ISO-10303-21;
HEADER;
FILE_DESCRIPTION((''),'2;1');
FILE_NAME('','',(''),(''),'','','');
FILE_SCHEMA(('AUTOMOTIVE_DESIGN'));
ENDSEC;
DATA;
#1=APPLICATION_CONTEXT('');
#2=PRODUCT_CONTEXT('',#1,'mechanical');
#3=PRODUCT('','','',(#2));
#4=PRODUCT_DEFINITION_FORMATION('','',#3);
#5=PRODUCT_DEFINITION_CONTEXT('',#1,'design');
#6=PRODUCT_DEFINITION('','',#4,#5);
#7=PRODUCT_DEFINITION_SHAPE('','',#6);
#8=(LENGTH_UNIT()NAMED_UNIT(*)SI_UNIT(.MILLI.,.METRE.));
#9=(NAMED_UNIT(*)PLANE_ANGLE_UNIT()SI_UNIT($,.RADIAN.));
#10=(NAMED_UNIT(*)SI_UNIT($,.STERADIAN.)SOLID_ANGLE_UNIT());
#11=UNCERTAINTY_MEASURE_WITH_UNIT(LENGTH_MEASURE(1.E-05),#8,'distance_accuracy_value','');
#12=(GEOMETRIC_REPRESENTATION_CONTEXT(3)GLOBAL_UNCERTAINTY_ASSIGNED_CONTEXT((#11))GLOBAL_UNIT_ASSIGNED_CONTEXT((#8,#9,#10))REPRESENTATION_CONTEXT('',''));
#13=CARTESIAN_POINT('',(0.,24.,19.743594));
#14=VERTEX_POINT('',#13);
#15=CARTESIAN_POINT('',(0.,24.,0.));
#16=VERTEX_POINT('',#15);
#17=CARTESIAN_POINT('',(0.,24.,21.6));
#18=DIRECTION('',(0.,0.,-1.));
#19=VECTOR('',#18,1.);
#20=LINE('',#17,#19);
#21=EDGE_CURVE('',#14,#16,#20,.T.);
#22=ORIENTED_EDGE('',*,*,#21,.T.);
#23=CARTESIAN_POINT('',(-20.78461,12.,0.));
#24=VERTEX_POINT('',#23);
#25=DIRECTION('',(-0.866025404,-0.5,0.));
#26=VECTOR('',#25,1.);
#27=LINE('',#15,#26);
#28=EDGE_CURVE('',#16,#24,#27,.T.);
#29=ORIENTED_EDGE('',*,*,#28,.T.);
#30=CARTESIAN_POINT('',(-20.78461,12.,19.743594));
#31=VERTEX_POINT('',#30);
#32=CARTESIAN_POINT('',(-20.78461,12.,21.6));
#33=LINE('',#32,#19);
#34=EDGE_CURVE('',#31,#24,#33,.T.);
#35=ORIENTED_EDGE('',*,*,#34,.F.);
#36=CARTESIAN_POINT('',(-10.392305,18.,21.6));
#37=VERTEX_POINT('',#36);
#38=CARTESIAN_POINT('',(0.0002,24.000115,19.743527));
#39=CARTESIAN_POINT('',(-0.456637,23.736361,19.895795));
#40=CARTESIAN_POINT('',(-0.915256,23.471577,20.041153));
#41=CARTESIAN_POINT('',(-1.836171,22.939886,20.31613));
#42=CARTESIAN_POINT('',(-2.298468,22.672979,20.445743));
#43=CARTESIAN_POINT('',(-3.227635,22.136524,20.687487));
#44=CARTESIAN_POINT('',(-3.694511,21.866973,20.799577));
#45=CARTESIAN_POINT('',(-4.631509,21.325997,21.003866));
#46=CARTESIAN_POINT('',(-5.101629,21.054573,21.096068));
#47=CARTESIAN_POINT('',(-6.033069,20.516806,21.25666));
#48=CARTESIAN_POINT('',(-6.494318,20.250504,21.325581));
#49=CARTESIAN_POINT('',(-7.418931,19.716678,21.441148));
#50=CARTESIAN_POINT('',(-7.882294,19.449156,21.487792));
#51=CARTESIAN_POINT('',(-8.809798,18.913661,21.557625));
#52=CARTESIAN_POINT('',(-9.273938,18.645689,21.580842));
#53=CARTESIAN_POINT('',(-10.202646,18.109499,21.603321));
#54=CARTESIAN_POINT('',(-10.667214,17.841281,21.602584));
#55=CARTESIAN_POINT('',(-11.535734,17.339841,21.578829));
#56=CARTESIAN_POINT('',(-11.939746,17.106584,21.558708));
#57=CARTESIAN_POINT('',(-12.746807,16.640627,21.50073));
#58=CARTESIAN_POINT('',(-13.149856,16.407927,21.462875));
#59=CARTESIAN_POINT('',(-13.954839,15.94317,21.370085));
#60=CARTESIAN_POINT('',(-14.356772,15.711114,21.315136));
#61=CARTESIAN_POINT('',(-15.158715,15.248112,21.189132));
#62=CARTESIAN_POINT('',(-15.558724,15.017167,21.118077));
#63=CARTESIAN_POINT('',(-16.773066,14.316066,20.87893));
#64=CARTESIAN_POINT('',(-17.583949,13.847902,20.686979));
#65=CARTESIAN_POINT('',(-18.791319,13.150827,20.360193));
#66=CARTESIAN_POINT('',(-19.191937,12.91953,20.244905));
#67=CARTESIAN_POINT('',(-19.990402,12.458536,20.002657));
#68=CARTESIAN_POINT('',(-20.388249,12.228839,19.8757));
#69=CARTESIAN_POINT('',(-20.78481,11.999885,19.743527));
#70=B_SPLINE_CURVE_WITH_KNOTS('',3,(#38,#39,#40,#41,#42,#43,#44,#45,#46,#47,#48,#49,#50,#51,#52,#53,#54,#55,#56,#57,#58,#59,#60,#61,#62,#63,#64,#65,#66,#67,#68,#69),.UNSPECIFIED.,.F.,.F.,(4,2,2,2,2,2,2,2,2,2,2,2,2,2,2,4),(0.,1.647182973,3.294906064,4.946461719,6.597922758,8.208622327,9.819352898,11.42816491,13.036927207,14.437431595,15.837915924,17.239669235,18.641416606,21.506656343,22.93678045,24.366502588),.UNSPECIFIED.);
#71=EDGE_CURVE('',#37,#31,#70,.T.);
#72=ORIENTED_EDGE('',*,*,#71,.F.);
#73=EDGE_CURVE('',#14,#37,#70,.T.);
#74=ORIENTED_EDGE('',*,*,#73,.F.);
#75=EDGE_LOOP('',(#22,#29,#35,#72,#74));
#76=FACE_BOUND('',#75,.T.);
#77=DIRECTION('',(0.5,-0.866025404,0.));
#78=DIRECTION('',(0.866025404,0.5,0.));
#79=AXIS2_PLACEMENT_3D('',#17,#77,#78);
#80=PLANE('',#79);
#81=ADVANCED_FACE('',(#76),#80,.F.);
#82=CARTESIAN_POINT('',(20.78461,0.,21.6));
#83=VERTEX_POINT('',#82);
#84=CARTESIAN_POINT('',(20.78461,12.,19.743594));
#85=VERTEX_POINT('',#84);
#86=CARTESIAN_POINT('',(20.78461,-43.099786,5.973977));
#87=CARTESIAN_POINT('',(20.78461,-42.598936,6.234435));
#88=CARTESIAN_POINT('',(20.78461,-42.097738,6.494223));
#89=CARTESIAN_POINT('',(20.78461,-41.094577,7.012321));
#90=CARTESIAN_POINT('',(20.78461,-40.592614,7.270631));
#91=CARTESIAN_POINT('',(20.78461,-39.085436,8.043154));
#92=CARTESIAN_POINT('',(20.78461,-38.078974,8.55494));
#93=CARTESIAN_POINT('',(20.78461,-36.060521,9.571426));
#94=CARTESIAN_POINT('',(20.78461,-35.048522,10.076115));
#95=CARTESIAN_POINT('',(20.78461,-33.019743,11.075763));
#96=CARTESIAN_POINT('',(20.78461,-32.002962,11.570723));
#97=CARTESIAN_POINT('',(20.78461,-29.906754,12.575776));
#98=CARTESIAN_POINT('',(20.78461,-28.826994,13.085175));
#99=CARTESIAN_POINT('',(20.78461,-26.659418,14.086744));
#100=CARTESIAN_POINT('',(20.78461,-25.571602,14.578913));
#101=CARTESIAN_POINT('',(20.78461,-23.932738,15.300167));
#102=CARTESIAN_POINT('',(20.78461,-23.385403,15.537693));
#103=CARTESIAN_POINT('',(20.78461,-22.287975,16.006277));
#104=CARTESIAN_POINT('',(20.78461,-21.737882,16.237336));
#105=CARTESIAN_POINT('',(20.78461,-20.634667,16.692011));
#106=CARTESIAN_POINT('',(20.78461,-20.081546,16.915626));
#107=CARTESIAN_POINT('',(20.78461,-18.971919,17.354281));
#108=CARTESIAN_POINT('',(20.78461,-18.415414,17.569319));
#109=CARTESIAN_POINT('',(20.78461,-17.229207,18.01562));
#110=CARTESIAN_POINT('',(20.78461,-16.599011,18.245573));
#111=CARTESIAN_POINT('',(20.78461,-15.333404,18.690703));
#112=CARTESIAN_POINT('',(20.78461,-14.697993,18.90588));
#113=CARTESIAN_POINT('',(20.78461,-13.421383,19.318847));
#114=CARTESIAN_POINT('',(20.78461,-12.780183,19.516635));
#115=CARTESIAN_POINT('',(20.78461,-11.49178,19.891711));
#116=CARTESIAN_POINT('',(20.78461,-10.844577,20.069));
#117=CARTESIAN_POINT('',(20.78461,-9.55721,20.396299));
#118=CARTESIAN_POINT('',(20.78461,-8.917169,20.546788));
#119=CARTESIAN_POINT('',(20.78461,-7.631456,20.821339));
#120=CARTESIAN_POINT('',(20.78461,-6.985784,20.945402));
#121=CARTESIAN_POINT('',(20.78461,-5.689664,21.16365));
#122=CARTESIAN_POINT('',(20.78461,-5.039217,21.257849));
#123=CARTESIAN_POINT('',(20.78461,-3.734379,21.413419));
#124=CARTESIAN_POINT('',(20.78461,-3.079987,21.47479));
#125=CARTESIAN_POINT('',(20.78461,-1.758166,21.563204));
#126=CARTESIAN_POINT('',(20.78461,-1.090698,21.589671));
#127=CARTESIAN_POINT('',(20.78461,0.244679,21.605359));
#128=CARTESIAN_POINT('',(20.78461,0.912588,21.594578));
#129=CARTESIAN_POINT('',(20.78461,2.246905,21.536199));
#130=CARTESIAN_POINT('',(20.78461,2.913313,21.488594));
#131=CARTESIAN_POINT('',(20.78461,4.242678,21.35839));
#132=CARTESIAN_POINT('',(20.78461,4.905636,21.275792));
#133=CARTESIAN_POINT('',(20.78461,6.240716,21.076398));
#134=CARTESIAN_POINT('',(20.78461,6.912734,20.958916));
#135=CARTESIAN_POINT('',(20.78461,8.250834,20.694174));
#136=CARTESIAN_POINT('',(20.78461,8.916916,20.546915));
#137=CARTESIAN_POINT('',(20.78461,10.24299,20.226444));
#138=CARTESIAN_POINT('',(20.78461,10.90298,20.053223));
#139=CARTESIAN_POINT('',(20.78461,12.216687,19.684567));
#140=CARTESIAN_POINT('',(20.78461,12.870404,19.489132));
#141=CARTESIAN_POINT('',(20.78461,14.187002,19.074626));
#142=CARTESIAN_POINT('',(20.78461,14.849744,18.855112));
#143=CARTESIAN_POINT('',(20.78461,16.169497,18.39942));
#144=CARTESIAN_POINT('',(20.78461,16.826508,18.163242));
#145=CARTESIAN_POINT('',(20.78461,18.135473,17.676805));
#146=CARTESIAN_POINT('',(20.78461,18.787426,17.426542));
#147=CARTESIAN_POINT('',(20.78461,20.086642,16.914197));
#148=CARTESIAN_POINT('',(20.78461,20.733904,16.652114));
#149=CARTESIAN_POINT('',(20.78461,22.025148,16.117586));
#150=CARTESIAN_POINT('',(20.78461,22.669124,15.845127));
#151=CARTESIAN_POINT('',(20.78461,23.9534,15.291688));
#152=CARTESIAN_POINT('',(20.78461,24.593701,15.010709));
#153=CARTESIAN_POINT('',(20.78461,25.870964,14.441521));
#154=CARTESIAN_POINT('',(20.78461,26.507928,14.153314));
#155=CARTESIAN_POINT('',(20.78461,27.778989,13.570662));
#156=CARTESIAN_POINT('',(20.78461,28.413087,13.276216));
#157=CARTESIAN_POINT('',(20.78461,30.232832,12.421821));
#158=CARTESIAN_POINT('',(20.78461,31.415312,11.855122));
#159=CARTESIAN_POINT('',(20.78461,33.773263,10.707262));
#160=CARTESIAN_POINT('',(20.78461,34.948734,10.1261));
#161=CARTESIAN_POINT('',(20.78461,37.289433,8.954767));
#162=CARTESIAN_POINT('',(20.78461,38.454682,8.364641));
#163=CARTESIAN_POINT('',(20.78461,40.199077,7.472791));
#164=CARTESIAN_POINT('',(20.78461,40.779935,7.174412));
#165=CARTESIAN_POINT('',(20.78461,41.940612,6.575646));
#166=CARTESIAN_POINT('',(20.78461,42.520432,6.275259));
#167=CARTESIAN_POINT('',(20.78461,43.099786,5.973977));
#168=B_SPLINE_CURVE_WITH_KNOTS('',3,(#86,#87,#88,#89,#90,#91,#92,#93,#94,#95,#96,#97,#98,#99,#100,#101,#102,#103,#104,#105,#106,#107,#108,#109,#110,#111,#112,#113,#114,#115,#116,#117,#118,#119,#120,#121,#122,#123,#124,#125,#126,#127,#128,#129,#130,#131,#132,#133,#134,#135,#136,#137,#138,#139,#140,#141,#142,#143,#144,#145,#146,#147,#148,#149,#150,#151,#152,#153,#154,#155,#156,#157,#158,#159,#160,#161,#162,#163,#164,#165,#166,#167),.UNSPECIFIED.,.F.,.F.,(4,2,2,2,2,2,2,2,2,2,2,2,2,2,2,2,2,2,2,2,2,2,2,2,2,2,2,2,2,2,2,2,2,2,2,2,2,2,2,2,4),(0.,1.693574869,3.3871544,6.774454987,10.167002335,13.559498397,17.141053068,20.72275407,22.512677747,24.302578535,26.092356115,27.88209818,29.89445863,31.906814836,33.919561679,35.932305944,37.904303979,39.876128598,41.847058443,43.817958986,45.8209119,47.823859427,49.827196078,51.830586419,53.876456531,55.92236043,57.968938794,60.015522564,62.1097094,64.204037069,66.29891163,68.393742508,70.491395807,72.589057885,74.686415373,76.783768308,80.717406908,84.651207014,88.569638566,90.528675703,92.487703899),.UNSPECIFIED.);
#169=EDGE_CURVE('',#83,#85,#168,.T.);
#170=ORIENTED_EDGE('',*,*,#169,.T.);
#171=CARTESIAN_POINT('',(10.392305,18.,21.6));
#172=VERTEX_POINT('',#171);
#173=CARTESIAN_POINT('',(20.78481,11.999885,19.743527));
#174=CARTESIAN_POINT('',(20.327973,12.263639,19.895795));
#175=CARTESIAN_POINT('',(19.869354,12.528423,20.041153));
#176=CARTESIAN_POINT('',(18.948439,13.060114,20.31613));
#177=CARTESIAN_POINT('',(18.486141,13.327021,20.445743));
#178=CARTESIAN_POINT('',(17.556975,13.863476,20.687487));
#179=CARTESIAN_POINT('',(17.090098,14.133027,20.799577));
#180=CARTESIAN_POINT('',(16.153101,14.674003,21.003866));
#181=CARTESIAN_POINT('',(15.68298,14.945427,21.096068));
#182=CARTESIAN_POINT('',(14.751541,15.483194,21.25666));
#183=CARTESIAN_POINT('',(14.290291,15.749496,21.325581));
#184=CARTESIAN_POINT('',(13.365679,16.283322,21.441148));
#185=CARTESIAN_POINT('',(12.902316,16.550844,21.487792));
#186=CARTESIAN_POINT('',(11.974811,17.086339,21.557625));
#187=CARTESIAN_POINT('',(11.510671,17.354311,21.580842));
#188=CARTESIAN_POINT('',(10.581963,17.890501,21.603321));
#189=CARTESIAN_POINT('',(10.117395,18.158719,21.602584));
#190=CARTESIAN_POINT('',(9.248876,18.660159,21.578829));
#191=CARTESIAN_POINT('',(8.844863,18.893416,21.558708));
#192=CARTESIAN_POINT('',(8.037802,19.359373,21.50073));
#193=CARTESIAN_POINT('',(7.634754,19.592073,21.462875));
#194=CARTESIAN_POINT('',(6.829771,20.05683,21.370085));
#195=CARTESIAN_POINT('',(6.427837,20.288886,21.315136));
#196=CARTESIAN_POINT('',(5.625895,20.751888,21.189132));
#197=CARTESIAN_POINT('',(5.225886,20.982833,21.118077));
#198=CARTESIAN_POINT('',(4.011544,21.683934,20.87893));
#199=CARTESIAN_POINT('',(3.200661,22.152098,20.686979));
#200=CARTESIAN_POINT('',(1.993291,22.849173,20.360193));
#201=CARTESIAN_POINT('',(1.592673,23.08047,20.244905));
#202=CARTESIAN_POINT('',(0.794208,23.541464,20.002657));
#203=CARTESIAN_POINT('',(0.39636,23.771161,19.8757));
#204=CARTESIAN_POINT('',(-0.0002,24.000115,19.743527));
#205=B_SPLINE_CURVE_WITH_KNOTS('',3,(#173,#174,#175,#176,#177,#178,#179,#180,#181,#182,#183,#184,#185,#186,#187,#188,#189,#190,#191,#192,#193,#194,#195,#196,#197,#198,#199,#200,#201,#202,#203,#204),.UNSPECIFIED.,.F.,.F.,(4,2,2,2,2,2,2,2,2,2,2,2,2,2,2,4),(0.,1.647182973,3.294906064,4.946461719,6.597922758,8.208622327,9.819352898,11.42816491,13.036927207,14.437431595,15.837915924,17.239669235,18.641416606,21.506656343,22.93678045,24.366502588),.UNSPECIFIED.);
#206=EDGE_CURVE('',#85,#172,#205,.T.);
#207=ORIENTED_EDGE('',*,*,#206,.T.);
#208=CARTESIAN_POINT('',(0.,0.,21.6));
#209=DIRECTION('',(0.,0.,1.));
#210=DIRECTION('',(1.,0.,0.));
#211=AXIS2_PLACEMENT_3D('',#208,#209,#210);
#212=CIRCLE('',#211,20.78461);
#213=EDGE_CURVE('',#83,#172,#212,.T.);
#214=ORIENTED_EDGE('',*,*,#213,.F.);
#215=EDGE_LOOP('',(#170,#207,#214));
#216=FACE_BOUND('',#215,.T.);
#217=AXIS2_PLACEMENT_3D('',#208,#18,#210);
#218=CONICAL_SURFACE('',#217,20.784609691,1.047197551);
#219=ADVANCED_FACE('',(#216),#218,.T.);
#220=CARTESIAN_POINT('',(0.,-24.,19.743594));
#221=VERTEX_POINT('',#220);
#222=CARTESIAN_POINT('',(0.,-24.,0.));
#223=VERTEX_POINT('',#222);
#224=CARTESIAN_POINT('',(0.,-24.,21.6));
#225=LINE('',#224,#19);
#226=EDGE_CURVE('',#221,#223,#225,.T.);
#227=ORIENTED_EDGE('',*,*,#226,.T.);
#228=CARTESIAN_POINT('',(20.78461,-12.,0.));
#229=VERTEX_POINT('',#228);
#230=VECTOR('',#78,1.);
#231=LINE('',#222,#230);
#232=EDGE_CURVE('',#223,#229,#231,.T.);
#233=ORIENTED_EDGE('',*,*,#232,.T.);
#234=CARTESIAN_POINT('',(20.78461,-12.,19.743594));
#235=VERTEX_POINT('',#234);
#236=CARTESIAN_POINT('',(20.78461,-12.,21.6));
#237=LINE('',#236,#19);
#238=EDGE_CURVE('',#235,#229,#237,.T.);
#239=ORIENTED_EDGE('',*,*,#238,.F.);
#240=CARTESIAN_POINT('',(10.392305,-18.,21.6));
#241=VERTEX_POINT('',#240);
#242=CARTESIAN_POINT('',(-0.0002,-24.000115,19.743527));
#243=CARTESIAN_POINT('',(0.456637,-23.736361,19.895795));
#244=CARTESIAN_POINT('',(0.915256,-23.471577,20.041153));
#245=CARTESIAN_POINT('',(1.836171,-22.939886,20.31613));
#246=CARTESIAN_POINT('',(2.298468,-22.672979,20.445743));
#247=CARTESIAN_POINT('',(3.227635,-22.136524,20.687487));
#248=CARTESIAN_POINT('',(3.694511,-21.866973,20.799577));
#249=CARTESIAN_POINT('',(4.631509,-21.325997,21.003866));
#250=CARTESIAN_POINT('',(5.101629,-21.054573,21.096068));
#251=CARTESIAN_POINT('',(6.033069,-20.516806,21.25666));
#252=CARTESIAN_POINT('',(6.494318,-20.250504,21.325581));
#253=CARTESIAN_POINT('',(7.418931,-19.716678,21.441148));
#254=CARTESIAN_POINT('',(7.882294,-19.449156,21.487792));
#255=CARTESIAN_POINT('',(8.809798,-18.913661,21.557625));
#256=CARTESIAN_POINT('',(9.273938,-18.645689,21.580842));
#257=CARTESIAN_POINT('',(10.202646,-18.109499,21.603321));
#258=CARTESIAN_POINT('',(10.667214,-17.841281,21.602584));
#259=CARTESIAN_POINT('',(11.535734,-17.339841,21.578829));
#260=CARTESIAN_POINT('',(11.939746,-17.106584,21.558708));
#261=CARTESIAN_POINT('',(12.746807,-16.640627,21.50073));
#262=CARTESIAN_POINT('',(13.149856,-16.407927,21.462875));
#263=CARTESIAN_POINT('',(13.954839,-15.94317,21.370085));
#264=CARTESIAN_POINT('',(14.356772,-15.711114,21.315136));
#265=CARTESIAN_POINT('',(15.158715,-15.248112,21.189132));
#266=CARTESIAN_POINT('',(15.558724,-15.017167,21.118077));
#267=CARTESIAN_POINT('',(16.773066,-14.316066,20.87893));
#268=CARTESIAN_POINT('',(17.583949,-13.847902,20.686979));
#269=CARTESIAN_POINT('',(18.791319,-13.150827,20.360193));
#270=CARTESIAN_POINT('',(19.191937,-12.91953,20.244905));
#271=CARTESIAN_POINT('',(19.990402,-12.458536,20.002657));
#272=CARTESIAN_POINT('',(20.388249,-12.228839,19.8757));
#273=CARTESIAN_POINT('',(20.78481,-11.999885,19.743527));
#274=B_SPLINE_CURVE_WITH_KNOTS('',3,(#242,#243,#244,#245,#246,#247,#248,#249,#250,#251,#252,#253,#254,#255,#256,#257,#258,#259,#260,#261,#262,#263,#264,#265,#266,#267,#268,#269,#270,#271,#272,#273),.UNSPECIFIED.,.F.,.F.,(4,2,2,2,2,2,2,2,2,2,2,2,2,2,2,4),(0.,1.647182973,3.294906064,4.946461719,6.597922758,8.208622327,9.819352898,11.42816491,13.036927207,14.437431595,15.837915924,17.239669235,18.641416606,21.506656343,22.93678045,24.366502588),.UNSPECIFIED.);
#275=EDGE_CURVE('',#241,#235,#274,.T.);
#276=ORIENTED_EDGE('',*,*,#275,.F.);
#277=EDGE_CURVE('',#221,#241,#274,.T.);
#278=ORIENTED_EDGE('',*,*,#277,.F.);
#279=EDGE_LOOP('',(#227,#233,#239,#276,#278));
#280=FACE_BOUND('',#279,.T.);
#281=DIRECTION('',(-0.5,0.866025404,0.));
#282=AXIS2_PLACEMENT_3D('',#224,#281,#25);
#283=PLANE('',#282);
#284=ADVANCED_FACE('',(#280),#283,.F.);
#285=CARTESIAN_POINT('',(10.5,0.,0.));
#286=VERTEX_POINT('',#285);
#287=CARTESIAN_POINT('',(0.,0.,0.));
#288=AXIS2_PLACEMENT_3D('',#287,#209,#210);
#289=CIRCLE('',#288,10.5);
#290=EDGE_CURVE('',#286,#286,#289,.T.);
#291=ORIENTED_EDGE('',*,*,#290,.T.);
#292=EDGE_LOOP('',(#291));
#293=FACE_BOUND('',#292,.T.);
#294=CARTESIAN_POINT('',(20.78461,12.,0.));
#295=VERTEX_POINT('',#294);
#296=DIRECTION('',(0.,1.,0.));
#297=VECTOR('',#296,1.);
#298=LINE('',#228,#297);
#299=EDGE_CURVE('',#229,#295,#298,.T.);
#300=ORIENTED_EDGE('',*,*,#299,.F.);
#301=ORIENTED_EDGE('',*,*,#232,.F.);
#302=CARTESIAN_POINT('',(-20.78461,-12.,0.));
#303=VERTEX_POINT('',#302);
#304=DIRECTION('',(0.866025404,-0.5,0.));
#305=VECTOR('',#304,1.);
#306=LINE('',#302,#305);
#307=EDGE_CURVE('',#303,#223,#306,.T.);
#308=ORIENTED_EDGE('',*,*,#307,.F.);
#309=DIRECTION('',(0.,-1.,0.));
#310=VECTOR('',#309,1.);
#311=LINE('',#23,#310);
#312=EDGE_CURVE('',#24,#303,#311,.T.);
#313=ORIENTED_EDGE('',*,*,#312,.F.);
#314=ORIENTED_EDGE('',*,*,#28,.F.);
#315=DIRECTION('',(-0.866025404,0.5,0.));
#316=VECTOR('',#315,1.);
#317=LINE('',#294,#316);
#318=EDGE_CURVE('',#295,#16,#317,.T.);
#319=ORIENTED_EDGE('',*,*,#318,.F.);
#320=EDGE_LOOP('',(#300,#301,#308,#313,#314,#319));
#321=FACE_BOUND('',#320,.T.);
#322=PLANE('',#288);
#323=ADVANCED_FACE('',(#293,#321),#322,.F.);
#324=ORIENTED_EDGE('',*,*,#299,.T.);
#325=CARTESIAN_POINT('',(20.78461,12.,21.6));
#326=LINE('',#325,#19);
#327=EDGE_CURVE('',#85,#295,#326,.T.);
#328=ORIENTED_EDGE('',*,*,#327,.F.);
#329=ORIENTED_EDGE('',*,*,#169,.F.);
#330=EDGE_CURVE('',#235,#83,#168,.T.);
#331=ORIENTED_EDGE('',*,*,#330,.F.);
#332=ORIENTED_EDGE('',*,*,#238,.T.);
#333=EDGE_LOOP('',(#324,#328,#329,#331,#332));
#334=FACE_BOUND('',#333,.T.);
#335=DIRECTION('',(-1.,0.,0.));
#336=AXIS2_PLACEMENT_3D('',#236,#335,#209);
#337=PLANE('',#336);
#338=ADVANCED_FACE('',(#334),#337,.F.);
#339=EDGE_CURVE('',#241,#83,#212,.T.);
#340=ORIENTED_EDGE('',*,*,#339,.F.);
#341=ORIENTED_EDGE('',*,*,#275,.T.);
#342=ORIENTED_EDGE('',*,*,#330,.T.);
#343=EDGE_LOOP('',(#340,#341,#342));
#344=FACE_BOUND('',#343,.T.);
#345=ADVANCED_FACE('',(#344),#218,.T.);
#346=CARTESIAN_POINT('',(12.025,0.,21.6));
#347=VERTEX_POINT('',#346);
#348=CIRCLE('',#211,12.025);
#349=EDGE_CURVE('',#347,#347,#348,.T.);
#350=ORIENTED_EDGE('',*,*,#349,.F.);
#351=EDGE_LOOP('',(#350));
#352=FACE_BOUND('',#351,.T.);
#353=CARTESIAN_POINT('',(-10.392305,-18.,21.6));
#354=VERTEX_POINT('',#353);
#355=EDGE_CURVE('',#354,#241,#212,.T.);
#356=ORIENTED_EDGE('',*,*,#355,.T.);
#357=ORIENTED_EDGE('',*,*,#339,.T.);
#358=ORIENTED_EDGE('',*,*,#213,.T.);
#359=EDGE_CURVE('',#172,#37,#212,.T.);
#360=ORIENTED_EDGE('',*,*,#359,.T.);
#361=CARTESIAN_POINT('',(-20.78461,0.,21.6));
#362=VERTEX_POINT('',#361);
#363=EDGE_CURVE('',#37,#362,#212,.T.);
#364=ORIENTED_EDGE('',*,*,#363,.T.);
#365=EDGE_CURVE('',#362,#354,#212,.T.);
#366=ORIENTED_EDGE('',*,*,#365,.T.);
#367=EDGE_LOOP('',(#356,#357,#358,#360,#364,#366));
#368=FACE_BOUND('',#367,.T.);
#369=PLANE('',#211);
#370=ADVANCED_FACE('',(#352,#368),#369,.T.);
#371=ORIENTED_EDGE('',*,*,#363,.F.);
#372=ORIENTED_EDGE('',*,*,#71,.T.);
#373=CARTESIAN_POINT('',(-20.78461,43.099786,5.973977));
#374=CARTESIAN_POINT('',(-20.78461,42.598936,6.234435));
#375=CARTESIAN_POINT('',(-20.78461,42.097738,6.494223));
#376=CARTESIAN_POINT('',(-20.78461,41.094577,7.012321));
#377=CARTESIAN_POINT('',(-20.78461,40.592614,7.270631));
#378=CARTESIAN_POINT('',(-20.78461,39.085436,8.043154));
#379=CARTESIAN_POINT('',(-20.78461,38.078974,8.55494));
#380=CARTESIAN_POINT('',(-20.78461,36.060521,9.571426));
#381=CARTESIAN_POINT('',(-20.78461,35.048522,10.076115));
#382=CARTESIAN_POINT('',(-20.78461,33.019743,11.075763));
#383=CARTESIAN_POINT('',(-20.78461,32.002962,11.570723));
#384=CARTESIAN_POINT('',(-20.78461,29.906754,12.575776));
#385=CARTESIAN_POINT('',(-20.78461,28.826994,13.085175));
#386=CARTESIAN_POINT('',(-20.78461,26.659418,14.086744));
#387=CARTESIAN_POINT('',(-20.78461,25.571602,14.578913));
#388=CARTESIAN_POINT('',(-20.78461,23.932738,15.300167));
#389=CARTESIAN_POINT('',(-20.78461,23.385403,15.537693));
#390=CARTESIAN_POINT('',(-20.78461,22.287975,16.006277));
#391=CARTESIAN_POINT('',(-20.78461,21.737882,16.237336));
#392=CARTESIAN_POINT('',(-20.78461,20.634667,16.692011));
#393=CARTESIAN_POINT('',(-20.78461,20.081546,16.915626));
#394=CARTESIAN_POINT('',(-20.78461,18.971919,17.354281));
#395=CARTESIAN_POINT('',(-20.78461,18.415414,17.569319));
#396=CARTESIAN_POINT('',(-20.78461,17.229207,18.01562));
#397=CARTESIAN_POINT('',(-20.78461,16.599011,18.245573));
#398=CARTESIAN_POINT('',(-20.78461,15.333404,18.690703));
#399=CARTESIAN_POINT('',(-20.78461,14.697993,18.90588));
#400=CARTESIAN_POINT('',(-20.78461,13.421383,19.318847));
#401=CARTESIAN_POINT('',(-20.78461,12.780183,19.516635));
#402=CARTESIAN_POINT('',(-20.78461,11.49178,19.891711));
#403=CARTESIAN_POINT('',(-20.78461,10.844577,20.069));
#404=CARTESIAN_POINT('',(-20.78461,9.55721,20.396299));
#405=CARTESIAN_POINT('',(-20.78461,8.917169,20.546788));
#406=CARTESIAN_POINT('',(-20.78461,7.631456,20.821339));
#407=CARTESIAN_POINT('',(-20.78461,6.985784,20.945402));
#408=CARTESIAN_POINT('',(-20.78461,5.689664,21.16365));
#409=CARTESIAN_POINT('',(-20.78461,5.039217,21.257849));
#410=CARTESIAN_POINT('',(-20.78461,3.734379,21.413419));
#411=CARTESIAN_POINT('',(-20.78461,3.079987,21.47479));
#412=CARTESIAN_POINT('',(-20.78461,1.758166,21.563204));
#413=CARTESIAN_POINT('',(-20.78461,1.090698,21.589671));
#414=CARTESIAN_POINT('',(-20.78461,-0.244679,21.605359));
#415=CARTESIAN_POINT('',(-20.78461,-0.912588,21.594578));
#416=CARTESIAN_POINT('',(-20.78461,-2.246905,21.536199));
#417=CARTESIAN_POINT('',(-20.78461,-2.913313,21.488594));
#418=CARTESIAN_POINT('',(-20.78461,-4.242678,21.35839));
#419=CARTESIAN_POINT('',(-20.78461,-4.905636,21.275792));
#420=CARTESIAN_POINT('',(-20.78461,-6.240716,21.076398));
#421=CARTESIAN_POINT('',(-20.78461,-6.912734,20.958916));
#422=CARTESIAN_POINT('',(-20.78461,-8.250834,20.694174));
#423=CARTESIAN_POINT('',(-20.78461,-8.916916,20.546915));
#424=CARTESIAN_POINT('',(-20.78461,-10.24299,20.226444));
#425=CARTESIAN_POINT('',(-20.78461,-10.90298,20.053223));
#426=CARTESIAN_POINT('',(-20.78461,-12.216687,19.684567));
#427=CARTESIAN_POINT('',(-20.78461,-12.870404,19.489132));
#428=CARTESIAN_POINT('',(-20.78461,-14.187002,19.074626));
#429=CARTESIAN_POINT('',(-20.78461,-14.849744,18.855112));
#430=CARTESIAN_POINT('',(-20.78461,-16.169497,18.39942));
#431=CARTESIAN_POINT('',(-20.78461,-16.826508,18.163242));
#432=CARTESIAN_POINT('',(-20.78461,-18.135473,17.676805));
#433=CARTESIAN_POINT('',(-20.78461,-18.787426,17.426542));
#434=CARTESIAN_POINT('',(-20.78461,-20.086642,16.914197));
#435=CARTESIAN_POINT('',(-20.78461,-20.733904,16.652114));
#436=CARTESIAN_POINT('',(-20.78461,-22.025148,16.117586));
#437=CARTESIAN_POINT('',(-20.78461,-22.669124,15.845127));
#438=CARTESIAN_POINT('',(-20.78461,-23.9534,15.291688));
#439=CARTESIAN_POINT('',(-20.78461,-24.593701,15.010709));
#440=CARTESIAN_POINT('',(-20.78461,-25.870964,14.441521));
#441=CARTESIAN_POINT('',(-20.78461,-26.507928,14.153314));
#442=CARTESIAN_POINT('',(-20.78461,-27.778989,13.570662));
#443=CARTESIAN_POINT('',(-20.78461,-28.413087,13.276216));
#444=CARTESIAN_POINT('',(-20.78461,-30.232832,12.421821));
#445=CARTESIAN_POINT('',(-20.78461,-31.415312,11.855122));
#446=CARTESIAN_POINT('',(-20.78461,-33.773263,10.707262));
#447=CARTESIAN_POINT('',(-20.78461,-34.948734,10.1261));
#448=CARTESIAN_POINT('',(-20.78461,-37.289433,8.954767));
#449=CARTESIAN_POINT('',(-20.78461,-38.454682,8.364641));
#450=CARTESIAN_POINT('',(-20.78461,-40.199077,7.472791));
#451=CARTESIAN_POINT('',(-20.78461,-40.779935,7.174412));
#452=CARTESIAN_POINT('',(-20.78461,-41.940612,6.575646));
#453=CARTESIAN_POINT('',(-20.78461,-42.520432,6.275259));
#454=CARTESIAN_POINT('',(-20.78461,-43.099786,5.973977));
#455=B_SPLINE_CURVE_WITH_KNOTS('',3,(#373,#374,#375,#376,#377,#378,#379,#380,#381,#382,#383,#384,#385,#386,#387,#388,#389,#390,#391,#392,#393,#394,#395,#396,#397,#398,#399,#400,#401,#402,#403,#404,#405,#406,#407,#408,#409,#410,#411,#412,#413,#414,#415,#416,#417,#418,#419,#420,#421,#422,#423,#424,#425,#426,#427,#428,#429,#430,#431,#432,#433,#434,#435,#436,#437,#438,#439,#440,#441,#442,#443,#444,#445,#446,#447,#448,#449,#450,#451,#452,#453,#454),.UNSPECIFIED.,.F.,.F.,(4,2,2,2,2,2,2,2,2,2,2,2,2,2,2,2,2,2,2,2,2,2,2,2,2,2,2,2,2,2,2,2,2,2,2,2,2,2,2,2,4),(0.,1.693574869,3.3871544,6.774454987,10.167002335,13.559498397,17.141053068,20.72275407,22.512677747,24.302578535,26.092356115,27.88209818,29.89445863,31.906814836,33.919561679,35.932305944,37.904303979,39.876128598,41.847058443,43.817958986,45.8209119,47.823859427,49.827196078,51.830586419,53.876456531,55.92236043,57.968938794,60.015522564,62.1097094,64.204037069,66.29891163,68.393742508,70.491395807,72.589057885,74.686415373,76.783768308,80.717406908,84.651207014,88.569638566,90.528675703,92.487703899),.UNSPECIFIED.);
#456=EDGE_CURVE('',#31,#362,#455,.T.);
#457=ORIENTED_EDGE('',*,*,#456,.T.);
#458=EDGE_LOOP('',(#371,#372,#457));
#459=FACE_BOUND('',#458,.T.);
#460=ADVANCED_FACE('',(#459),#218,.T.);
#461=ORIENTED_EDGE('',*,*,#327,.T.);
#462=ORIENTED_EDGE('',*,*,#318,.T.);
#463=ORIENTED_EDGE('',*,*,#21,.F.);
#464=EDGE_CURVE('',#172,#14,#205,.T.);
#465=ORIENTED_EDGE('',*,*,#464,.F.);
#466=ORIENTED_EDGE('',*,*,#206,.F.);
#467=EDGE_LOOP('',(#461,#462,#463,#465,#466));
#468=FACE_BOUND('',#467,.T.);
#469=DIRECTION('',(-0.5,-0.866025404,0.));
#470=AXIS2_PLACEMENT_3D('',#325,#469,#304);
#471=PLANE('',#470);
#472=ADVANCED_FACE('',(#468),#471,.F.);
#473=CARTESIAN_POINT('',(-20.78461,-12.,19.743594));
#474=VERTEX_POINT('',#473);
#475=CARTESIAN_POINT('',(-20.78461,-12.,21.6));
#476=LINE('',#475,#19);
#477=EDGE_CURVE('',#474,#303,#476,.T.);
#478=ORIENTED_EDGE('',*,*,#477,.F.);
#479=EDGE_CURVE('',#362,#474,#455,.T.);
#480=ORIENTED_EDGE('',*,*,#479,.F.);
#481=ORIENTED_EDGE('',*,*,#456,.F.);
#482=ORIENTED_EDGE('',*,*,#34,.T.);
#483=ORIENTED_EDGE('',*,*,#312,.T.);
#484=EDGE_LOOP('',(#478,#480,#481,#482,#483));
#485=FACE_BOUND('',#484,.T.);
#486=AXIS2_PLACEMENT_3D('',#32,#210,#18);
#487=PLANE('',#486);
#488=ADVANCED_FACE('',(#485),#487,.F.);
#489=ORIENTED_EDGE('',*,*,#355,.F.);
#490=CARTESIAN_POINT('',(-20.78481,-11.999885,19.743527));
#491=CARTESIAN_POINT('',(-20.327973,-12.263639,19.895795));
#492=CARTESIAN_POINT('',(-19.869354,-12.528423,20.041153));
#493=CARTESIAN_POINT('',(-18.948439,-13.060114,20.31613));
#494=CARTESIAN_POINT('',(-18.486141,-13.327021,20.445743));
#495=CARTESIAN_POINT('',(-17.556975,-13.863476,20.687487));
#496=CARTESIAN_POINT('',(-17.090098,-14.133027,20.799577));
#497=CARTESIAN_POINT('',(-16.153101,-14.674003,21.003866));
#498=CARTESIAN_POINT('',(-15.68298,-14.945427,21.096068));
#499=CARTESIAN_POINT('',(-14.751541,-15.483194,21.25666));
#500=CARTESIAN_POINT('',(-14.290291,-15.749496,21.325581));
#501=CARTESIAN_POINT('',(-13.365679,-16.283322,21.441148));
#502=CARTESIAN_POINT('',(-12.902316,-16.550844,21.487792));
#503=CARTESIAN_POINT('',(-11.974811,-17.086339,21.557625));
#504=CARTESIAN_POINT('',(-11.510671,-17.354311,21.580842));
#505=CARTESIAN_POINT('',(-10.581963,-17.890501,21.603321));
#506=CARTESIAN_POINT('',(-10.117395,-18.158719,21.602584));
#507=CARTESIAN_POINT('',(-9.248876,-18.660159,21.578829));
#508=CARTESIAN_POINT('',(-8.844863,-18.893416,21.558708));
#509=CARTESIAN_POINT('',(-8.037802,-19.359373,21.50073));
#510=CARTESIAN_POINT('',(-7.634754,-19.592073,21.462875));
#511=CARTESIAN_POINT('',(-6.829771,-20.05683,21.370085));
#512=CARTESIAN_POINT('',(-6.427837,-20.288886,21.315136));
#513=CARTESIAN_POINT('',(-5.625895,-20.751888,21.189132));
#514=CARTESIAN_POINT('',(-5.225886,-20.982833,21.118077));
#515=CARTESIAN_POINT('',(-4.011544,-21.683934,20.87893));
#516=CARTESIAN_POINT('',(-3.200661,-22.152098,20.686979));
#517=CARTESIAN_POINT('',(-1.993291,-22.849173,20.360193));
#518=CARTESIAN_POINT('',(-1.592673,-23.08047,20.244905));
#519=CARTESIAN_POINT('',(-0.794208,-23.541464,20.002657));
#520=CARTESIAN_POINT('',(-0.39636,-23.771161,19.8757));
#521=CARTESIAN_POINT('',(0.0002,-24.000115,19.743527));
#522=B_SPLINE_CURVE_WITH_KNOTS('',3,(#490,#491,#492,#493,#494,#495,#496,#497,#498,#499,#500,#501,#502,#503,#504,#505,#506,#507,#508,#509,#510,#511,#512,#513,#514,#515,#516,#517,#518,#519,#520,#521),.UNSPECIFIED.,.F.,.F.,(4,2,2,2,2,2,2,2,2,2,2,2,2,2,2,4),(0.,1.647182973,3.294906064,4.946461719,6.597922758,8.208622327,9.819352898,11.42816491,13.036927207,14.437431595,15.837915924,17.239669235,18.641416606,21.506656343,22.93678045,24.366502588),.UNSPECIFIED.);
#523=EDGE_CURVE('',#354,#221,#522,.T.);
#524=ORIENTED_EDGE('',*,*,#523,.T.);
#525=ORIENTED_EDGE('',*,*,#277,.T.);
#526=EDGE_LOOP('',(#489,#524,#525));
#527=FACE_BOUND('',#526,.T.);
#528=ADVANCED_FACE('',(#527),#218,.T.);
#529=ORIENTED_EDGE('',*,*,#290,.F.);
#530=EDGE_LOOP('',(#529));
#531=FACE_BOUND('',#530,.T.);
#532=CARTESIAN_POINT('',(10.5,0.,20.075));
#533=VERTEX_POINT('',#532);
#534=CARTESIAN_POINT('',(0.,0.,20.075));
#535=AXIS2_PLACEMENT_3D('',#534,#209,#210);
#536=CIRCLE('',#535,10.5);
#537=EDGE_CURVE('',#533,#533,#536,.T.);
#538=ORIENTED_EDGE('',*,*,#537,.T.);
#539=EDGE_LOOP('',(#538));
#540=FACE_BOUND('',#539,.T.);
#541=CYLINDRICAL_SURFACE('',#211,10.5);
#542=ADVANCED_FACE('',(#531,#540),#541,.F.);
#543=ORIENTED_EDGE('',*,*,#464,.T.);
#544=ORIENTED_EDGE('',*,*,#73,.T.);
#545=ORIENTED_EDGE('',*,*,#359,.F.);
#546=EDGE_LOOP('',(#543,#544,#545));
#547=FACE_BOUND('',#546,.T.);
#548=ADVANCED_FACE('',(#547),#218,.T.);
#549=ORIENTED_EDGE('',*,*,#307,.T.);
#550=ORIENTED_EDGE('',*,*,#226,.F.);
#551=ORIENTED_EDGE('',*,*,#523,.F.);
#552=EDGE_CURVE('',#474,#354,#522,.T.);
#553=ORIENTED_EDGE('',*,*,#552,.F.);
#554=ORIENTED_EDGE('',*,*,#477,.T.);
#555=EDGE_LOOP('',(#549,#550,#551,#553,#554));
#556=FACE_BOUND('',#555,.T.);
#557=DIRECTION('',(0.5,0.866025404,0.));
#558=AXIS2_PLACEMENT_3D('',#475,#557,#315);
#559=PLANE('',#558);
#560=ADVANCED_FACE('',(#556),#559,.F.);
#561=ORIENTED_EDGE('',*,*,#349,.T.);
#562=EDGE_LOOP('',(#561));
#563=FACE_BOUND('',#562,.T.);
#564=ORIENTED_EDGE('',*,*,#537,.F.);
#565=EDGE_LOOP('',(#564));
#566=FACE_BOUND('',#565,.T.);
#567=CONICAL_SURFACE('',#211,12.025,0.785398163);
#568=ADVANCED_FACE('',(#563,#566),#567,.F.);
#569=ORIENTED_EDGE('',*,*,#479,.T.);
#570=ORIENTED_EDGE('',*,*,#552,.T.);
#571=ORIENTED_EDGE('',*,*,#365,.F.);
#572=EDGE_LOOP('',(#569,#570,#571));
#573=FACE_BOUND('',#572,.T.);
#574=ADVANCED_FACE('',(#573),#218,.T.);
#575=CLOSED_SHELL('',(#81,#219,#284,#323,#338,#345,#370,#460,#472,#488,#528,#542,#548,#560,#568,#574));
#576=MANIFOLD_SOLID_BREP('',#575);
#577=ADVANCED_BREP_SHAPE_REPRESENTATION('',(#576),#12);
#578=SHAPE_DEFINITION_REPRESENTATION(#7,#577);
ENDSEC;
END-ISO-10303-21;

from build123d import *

# Parameters (mm, degrees)
BOSS_EXTRUDE1_DEPTH          = 21.6
SKETCH3_OUTSIDE_W            = 131.808
SKETCH3_OUTSIDE_H            = 138.238
SKETCH3_OUTSIDE_R            = 20.784609691
CUT_EXTRUDE1_DEPTH           = 21.6
CUT_EXTRUDE1_DRAFT           = -60
M24_TAPPED_HOLE1_D           = 21
M24_TAPPED_HOLE1_CSINK_D     = 24.05
M24_TAPPED_HOLE1_CSINK_ANGLE = 90


with BuildPart() as part:
    # Sketch1 → Boss-Extrude1 (new body)
    with BuildSketch(Plane.XY):
        Polygon((20.784609691, -12), (20.784609691, 12), (0, 24), (-20.784609691, 12), (-20.784609691, -12), (0, -24), align=None)
    extrude(amount=BOSS_EXTRUDE1_DEPTH)


with BuildPart() as cut_extrude1_tool:
    # Sketch3 outside → Cut-Extrude1 (with draft: the straight prism first)
    with BuildSketch(Plane.XY.offset(21.6)):
        Rectangle(SKETCH3_OUTSIDE_W, SKETCH3_OUTSIDE_H)
        Circle(SKETCH3_OUTSIDE_R, mode=Mode.SUBTRACT)
    extrude(amount=-CUT_EXTRUDE1_DEPTH)
    # Cut-Extrude1: the draft: its side faces are tilted about the plane it starts from
    cut_extrude1_sides = [cut_extrude1_tool.faces().sort_by_distance(p)[0] for p in [
        (0, -69.119, 10.8),
        (65.904, 0, 10.8),
        (0, 69.119, 10.8),
        (-65.904, 0, 10.8),
        (-20.784609691, 0, 10.8),
    ]]
    draft(cut_extrude1_sides, Plane.XY.offset(21.6), CUT_EXTRUDE1_DRAFT)


with BuildPart() as part_1:
    add(part.part)

    # Cut-Extrude1: cut by cut_extrude1_tool
    add(cut_extrude1_tool.part, mode=Mode.SUBTRACT)

    # M24 Tapped Hole1 (through all)
    with Locations(Plane.XY.offset(21.6)):
        with Locations((0, 0)):
            CounterSinkHole(M24_TAPPED_HOLE1_D / 2, M24_TAPPED_HOLE1_CSINK_D / 2, counter_sink_angle=M24_TAPPED_HOLE1_CSINK_ANGLE)


solid = part_1.part
